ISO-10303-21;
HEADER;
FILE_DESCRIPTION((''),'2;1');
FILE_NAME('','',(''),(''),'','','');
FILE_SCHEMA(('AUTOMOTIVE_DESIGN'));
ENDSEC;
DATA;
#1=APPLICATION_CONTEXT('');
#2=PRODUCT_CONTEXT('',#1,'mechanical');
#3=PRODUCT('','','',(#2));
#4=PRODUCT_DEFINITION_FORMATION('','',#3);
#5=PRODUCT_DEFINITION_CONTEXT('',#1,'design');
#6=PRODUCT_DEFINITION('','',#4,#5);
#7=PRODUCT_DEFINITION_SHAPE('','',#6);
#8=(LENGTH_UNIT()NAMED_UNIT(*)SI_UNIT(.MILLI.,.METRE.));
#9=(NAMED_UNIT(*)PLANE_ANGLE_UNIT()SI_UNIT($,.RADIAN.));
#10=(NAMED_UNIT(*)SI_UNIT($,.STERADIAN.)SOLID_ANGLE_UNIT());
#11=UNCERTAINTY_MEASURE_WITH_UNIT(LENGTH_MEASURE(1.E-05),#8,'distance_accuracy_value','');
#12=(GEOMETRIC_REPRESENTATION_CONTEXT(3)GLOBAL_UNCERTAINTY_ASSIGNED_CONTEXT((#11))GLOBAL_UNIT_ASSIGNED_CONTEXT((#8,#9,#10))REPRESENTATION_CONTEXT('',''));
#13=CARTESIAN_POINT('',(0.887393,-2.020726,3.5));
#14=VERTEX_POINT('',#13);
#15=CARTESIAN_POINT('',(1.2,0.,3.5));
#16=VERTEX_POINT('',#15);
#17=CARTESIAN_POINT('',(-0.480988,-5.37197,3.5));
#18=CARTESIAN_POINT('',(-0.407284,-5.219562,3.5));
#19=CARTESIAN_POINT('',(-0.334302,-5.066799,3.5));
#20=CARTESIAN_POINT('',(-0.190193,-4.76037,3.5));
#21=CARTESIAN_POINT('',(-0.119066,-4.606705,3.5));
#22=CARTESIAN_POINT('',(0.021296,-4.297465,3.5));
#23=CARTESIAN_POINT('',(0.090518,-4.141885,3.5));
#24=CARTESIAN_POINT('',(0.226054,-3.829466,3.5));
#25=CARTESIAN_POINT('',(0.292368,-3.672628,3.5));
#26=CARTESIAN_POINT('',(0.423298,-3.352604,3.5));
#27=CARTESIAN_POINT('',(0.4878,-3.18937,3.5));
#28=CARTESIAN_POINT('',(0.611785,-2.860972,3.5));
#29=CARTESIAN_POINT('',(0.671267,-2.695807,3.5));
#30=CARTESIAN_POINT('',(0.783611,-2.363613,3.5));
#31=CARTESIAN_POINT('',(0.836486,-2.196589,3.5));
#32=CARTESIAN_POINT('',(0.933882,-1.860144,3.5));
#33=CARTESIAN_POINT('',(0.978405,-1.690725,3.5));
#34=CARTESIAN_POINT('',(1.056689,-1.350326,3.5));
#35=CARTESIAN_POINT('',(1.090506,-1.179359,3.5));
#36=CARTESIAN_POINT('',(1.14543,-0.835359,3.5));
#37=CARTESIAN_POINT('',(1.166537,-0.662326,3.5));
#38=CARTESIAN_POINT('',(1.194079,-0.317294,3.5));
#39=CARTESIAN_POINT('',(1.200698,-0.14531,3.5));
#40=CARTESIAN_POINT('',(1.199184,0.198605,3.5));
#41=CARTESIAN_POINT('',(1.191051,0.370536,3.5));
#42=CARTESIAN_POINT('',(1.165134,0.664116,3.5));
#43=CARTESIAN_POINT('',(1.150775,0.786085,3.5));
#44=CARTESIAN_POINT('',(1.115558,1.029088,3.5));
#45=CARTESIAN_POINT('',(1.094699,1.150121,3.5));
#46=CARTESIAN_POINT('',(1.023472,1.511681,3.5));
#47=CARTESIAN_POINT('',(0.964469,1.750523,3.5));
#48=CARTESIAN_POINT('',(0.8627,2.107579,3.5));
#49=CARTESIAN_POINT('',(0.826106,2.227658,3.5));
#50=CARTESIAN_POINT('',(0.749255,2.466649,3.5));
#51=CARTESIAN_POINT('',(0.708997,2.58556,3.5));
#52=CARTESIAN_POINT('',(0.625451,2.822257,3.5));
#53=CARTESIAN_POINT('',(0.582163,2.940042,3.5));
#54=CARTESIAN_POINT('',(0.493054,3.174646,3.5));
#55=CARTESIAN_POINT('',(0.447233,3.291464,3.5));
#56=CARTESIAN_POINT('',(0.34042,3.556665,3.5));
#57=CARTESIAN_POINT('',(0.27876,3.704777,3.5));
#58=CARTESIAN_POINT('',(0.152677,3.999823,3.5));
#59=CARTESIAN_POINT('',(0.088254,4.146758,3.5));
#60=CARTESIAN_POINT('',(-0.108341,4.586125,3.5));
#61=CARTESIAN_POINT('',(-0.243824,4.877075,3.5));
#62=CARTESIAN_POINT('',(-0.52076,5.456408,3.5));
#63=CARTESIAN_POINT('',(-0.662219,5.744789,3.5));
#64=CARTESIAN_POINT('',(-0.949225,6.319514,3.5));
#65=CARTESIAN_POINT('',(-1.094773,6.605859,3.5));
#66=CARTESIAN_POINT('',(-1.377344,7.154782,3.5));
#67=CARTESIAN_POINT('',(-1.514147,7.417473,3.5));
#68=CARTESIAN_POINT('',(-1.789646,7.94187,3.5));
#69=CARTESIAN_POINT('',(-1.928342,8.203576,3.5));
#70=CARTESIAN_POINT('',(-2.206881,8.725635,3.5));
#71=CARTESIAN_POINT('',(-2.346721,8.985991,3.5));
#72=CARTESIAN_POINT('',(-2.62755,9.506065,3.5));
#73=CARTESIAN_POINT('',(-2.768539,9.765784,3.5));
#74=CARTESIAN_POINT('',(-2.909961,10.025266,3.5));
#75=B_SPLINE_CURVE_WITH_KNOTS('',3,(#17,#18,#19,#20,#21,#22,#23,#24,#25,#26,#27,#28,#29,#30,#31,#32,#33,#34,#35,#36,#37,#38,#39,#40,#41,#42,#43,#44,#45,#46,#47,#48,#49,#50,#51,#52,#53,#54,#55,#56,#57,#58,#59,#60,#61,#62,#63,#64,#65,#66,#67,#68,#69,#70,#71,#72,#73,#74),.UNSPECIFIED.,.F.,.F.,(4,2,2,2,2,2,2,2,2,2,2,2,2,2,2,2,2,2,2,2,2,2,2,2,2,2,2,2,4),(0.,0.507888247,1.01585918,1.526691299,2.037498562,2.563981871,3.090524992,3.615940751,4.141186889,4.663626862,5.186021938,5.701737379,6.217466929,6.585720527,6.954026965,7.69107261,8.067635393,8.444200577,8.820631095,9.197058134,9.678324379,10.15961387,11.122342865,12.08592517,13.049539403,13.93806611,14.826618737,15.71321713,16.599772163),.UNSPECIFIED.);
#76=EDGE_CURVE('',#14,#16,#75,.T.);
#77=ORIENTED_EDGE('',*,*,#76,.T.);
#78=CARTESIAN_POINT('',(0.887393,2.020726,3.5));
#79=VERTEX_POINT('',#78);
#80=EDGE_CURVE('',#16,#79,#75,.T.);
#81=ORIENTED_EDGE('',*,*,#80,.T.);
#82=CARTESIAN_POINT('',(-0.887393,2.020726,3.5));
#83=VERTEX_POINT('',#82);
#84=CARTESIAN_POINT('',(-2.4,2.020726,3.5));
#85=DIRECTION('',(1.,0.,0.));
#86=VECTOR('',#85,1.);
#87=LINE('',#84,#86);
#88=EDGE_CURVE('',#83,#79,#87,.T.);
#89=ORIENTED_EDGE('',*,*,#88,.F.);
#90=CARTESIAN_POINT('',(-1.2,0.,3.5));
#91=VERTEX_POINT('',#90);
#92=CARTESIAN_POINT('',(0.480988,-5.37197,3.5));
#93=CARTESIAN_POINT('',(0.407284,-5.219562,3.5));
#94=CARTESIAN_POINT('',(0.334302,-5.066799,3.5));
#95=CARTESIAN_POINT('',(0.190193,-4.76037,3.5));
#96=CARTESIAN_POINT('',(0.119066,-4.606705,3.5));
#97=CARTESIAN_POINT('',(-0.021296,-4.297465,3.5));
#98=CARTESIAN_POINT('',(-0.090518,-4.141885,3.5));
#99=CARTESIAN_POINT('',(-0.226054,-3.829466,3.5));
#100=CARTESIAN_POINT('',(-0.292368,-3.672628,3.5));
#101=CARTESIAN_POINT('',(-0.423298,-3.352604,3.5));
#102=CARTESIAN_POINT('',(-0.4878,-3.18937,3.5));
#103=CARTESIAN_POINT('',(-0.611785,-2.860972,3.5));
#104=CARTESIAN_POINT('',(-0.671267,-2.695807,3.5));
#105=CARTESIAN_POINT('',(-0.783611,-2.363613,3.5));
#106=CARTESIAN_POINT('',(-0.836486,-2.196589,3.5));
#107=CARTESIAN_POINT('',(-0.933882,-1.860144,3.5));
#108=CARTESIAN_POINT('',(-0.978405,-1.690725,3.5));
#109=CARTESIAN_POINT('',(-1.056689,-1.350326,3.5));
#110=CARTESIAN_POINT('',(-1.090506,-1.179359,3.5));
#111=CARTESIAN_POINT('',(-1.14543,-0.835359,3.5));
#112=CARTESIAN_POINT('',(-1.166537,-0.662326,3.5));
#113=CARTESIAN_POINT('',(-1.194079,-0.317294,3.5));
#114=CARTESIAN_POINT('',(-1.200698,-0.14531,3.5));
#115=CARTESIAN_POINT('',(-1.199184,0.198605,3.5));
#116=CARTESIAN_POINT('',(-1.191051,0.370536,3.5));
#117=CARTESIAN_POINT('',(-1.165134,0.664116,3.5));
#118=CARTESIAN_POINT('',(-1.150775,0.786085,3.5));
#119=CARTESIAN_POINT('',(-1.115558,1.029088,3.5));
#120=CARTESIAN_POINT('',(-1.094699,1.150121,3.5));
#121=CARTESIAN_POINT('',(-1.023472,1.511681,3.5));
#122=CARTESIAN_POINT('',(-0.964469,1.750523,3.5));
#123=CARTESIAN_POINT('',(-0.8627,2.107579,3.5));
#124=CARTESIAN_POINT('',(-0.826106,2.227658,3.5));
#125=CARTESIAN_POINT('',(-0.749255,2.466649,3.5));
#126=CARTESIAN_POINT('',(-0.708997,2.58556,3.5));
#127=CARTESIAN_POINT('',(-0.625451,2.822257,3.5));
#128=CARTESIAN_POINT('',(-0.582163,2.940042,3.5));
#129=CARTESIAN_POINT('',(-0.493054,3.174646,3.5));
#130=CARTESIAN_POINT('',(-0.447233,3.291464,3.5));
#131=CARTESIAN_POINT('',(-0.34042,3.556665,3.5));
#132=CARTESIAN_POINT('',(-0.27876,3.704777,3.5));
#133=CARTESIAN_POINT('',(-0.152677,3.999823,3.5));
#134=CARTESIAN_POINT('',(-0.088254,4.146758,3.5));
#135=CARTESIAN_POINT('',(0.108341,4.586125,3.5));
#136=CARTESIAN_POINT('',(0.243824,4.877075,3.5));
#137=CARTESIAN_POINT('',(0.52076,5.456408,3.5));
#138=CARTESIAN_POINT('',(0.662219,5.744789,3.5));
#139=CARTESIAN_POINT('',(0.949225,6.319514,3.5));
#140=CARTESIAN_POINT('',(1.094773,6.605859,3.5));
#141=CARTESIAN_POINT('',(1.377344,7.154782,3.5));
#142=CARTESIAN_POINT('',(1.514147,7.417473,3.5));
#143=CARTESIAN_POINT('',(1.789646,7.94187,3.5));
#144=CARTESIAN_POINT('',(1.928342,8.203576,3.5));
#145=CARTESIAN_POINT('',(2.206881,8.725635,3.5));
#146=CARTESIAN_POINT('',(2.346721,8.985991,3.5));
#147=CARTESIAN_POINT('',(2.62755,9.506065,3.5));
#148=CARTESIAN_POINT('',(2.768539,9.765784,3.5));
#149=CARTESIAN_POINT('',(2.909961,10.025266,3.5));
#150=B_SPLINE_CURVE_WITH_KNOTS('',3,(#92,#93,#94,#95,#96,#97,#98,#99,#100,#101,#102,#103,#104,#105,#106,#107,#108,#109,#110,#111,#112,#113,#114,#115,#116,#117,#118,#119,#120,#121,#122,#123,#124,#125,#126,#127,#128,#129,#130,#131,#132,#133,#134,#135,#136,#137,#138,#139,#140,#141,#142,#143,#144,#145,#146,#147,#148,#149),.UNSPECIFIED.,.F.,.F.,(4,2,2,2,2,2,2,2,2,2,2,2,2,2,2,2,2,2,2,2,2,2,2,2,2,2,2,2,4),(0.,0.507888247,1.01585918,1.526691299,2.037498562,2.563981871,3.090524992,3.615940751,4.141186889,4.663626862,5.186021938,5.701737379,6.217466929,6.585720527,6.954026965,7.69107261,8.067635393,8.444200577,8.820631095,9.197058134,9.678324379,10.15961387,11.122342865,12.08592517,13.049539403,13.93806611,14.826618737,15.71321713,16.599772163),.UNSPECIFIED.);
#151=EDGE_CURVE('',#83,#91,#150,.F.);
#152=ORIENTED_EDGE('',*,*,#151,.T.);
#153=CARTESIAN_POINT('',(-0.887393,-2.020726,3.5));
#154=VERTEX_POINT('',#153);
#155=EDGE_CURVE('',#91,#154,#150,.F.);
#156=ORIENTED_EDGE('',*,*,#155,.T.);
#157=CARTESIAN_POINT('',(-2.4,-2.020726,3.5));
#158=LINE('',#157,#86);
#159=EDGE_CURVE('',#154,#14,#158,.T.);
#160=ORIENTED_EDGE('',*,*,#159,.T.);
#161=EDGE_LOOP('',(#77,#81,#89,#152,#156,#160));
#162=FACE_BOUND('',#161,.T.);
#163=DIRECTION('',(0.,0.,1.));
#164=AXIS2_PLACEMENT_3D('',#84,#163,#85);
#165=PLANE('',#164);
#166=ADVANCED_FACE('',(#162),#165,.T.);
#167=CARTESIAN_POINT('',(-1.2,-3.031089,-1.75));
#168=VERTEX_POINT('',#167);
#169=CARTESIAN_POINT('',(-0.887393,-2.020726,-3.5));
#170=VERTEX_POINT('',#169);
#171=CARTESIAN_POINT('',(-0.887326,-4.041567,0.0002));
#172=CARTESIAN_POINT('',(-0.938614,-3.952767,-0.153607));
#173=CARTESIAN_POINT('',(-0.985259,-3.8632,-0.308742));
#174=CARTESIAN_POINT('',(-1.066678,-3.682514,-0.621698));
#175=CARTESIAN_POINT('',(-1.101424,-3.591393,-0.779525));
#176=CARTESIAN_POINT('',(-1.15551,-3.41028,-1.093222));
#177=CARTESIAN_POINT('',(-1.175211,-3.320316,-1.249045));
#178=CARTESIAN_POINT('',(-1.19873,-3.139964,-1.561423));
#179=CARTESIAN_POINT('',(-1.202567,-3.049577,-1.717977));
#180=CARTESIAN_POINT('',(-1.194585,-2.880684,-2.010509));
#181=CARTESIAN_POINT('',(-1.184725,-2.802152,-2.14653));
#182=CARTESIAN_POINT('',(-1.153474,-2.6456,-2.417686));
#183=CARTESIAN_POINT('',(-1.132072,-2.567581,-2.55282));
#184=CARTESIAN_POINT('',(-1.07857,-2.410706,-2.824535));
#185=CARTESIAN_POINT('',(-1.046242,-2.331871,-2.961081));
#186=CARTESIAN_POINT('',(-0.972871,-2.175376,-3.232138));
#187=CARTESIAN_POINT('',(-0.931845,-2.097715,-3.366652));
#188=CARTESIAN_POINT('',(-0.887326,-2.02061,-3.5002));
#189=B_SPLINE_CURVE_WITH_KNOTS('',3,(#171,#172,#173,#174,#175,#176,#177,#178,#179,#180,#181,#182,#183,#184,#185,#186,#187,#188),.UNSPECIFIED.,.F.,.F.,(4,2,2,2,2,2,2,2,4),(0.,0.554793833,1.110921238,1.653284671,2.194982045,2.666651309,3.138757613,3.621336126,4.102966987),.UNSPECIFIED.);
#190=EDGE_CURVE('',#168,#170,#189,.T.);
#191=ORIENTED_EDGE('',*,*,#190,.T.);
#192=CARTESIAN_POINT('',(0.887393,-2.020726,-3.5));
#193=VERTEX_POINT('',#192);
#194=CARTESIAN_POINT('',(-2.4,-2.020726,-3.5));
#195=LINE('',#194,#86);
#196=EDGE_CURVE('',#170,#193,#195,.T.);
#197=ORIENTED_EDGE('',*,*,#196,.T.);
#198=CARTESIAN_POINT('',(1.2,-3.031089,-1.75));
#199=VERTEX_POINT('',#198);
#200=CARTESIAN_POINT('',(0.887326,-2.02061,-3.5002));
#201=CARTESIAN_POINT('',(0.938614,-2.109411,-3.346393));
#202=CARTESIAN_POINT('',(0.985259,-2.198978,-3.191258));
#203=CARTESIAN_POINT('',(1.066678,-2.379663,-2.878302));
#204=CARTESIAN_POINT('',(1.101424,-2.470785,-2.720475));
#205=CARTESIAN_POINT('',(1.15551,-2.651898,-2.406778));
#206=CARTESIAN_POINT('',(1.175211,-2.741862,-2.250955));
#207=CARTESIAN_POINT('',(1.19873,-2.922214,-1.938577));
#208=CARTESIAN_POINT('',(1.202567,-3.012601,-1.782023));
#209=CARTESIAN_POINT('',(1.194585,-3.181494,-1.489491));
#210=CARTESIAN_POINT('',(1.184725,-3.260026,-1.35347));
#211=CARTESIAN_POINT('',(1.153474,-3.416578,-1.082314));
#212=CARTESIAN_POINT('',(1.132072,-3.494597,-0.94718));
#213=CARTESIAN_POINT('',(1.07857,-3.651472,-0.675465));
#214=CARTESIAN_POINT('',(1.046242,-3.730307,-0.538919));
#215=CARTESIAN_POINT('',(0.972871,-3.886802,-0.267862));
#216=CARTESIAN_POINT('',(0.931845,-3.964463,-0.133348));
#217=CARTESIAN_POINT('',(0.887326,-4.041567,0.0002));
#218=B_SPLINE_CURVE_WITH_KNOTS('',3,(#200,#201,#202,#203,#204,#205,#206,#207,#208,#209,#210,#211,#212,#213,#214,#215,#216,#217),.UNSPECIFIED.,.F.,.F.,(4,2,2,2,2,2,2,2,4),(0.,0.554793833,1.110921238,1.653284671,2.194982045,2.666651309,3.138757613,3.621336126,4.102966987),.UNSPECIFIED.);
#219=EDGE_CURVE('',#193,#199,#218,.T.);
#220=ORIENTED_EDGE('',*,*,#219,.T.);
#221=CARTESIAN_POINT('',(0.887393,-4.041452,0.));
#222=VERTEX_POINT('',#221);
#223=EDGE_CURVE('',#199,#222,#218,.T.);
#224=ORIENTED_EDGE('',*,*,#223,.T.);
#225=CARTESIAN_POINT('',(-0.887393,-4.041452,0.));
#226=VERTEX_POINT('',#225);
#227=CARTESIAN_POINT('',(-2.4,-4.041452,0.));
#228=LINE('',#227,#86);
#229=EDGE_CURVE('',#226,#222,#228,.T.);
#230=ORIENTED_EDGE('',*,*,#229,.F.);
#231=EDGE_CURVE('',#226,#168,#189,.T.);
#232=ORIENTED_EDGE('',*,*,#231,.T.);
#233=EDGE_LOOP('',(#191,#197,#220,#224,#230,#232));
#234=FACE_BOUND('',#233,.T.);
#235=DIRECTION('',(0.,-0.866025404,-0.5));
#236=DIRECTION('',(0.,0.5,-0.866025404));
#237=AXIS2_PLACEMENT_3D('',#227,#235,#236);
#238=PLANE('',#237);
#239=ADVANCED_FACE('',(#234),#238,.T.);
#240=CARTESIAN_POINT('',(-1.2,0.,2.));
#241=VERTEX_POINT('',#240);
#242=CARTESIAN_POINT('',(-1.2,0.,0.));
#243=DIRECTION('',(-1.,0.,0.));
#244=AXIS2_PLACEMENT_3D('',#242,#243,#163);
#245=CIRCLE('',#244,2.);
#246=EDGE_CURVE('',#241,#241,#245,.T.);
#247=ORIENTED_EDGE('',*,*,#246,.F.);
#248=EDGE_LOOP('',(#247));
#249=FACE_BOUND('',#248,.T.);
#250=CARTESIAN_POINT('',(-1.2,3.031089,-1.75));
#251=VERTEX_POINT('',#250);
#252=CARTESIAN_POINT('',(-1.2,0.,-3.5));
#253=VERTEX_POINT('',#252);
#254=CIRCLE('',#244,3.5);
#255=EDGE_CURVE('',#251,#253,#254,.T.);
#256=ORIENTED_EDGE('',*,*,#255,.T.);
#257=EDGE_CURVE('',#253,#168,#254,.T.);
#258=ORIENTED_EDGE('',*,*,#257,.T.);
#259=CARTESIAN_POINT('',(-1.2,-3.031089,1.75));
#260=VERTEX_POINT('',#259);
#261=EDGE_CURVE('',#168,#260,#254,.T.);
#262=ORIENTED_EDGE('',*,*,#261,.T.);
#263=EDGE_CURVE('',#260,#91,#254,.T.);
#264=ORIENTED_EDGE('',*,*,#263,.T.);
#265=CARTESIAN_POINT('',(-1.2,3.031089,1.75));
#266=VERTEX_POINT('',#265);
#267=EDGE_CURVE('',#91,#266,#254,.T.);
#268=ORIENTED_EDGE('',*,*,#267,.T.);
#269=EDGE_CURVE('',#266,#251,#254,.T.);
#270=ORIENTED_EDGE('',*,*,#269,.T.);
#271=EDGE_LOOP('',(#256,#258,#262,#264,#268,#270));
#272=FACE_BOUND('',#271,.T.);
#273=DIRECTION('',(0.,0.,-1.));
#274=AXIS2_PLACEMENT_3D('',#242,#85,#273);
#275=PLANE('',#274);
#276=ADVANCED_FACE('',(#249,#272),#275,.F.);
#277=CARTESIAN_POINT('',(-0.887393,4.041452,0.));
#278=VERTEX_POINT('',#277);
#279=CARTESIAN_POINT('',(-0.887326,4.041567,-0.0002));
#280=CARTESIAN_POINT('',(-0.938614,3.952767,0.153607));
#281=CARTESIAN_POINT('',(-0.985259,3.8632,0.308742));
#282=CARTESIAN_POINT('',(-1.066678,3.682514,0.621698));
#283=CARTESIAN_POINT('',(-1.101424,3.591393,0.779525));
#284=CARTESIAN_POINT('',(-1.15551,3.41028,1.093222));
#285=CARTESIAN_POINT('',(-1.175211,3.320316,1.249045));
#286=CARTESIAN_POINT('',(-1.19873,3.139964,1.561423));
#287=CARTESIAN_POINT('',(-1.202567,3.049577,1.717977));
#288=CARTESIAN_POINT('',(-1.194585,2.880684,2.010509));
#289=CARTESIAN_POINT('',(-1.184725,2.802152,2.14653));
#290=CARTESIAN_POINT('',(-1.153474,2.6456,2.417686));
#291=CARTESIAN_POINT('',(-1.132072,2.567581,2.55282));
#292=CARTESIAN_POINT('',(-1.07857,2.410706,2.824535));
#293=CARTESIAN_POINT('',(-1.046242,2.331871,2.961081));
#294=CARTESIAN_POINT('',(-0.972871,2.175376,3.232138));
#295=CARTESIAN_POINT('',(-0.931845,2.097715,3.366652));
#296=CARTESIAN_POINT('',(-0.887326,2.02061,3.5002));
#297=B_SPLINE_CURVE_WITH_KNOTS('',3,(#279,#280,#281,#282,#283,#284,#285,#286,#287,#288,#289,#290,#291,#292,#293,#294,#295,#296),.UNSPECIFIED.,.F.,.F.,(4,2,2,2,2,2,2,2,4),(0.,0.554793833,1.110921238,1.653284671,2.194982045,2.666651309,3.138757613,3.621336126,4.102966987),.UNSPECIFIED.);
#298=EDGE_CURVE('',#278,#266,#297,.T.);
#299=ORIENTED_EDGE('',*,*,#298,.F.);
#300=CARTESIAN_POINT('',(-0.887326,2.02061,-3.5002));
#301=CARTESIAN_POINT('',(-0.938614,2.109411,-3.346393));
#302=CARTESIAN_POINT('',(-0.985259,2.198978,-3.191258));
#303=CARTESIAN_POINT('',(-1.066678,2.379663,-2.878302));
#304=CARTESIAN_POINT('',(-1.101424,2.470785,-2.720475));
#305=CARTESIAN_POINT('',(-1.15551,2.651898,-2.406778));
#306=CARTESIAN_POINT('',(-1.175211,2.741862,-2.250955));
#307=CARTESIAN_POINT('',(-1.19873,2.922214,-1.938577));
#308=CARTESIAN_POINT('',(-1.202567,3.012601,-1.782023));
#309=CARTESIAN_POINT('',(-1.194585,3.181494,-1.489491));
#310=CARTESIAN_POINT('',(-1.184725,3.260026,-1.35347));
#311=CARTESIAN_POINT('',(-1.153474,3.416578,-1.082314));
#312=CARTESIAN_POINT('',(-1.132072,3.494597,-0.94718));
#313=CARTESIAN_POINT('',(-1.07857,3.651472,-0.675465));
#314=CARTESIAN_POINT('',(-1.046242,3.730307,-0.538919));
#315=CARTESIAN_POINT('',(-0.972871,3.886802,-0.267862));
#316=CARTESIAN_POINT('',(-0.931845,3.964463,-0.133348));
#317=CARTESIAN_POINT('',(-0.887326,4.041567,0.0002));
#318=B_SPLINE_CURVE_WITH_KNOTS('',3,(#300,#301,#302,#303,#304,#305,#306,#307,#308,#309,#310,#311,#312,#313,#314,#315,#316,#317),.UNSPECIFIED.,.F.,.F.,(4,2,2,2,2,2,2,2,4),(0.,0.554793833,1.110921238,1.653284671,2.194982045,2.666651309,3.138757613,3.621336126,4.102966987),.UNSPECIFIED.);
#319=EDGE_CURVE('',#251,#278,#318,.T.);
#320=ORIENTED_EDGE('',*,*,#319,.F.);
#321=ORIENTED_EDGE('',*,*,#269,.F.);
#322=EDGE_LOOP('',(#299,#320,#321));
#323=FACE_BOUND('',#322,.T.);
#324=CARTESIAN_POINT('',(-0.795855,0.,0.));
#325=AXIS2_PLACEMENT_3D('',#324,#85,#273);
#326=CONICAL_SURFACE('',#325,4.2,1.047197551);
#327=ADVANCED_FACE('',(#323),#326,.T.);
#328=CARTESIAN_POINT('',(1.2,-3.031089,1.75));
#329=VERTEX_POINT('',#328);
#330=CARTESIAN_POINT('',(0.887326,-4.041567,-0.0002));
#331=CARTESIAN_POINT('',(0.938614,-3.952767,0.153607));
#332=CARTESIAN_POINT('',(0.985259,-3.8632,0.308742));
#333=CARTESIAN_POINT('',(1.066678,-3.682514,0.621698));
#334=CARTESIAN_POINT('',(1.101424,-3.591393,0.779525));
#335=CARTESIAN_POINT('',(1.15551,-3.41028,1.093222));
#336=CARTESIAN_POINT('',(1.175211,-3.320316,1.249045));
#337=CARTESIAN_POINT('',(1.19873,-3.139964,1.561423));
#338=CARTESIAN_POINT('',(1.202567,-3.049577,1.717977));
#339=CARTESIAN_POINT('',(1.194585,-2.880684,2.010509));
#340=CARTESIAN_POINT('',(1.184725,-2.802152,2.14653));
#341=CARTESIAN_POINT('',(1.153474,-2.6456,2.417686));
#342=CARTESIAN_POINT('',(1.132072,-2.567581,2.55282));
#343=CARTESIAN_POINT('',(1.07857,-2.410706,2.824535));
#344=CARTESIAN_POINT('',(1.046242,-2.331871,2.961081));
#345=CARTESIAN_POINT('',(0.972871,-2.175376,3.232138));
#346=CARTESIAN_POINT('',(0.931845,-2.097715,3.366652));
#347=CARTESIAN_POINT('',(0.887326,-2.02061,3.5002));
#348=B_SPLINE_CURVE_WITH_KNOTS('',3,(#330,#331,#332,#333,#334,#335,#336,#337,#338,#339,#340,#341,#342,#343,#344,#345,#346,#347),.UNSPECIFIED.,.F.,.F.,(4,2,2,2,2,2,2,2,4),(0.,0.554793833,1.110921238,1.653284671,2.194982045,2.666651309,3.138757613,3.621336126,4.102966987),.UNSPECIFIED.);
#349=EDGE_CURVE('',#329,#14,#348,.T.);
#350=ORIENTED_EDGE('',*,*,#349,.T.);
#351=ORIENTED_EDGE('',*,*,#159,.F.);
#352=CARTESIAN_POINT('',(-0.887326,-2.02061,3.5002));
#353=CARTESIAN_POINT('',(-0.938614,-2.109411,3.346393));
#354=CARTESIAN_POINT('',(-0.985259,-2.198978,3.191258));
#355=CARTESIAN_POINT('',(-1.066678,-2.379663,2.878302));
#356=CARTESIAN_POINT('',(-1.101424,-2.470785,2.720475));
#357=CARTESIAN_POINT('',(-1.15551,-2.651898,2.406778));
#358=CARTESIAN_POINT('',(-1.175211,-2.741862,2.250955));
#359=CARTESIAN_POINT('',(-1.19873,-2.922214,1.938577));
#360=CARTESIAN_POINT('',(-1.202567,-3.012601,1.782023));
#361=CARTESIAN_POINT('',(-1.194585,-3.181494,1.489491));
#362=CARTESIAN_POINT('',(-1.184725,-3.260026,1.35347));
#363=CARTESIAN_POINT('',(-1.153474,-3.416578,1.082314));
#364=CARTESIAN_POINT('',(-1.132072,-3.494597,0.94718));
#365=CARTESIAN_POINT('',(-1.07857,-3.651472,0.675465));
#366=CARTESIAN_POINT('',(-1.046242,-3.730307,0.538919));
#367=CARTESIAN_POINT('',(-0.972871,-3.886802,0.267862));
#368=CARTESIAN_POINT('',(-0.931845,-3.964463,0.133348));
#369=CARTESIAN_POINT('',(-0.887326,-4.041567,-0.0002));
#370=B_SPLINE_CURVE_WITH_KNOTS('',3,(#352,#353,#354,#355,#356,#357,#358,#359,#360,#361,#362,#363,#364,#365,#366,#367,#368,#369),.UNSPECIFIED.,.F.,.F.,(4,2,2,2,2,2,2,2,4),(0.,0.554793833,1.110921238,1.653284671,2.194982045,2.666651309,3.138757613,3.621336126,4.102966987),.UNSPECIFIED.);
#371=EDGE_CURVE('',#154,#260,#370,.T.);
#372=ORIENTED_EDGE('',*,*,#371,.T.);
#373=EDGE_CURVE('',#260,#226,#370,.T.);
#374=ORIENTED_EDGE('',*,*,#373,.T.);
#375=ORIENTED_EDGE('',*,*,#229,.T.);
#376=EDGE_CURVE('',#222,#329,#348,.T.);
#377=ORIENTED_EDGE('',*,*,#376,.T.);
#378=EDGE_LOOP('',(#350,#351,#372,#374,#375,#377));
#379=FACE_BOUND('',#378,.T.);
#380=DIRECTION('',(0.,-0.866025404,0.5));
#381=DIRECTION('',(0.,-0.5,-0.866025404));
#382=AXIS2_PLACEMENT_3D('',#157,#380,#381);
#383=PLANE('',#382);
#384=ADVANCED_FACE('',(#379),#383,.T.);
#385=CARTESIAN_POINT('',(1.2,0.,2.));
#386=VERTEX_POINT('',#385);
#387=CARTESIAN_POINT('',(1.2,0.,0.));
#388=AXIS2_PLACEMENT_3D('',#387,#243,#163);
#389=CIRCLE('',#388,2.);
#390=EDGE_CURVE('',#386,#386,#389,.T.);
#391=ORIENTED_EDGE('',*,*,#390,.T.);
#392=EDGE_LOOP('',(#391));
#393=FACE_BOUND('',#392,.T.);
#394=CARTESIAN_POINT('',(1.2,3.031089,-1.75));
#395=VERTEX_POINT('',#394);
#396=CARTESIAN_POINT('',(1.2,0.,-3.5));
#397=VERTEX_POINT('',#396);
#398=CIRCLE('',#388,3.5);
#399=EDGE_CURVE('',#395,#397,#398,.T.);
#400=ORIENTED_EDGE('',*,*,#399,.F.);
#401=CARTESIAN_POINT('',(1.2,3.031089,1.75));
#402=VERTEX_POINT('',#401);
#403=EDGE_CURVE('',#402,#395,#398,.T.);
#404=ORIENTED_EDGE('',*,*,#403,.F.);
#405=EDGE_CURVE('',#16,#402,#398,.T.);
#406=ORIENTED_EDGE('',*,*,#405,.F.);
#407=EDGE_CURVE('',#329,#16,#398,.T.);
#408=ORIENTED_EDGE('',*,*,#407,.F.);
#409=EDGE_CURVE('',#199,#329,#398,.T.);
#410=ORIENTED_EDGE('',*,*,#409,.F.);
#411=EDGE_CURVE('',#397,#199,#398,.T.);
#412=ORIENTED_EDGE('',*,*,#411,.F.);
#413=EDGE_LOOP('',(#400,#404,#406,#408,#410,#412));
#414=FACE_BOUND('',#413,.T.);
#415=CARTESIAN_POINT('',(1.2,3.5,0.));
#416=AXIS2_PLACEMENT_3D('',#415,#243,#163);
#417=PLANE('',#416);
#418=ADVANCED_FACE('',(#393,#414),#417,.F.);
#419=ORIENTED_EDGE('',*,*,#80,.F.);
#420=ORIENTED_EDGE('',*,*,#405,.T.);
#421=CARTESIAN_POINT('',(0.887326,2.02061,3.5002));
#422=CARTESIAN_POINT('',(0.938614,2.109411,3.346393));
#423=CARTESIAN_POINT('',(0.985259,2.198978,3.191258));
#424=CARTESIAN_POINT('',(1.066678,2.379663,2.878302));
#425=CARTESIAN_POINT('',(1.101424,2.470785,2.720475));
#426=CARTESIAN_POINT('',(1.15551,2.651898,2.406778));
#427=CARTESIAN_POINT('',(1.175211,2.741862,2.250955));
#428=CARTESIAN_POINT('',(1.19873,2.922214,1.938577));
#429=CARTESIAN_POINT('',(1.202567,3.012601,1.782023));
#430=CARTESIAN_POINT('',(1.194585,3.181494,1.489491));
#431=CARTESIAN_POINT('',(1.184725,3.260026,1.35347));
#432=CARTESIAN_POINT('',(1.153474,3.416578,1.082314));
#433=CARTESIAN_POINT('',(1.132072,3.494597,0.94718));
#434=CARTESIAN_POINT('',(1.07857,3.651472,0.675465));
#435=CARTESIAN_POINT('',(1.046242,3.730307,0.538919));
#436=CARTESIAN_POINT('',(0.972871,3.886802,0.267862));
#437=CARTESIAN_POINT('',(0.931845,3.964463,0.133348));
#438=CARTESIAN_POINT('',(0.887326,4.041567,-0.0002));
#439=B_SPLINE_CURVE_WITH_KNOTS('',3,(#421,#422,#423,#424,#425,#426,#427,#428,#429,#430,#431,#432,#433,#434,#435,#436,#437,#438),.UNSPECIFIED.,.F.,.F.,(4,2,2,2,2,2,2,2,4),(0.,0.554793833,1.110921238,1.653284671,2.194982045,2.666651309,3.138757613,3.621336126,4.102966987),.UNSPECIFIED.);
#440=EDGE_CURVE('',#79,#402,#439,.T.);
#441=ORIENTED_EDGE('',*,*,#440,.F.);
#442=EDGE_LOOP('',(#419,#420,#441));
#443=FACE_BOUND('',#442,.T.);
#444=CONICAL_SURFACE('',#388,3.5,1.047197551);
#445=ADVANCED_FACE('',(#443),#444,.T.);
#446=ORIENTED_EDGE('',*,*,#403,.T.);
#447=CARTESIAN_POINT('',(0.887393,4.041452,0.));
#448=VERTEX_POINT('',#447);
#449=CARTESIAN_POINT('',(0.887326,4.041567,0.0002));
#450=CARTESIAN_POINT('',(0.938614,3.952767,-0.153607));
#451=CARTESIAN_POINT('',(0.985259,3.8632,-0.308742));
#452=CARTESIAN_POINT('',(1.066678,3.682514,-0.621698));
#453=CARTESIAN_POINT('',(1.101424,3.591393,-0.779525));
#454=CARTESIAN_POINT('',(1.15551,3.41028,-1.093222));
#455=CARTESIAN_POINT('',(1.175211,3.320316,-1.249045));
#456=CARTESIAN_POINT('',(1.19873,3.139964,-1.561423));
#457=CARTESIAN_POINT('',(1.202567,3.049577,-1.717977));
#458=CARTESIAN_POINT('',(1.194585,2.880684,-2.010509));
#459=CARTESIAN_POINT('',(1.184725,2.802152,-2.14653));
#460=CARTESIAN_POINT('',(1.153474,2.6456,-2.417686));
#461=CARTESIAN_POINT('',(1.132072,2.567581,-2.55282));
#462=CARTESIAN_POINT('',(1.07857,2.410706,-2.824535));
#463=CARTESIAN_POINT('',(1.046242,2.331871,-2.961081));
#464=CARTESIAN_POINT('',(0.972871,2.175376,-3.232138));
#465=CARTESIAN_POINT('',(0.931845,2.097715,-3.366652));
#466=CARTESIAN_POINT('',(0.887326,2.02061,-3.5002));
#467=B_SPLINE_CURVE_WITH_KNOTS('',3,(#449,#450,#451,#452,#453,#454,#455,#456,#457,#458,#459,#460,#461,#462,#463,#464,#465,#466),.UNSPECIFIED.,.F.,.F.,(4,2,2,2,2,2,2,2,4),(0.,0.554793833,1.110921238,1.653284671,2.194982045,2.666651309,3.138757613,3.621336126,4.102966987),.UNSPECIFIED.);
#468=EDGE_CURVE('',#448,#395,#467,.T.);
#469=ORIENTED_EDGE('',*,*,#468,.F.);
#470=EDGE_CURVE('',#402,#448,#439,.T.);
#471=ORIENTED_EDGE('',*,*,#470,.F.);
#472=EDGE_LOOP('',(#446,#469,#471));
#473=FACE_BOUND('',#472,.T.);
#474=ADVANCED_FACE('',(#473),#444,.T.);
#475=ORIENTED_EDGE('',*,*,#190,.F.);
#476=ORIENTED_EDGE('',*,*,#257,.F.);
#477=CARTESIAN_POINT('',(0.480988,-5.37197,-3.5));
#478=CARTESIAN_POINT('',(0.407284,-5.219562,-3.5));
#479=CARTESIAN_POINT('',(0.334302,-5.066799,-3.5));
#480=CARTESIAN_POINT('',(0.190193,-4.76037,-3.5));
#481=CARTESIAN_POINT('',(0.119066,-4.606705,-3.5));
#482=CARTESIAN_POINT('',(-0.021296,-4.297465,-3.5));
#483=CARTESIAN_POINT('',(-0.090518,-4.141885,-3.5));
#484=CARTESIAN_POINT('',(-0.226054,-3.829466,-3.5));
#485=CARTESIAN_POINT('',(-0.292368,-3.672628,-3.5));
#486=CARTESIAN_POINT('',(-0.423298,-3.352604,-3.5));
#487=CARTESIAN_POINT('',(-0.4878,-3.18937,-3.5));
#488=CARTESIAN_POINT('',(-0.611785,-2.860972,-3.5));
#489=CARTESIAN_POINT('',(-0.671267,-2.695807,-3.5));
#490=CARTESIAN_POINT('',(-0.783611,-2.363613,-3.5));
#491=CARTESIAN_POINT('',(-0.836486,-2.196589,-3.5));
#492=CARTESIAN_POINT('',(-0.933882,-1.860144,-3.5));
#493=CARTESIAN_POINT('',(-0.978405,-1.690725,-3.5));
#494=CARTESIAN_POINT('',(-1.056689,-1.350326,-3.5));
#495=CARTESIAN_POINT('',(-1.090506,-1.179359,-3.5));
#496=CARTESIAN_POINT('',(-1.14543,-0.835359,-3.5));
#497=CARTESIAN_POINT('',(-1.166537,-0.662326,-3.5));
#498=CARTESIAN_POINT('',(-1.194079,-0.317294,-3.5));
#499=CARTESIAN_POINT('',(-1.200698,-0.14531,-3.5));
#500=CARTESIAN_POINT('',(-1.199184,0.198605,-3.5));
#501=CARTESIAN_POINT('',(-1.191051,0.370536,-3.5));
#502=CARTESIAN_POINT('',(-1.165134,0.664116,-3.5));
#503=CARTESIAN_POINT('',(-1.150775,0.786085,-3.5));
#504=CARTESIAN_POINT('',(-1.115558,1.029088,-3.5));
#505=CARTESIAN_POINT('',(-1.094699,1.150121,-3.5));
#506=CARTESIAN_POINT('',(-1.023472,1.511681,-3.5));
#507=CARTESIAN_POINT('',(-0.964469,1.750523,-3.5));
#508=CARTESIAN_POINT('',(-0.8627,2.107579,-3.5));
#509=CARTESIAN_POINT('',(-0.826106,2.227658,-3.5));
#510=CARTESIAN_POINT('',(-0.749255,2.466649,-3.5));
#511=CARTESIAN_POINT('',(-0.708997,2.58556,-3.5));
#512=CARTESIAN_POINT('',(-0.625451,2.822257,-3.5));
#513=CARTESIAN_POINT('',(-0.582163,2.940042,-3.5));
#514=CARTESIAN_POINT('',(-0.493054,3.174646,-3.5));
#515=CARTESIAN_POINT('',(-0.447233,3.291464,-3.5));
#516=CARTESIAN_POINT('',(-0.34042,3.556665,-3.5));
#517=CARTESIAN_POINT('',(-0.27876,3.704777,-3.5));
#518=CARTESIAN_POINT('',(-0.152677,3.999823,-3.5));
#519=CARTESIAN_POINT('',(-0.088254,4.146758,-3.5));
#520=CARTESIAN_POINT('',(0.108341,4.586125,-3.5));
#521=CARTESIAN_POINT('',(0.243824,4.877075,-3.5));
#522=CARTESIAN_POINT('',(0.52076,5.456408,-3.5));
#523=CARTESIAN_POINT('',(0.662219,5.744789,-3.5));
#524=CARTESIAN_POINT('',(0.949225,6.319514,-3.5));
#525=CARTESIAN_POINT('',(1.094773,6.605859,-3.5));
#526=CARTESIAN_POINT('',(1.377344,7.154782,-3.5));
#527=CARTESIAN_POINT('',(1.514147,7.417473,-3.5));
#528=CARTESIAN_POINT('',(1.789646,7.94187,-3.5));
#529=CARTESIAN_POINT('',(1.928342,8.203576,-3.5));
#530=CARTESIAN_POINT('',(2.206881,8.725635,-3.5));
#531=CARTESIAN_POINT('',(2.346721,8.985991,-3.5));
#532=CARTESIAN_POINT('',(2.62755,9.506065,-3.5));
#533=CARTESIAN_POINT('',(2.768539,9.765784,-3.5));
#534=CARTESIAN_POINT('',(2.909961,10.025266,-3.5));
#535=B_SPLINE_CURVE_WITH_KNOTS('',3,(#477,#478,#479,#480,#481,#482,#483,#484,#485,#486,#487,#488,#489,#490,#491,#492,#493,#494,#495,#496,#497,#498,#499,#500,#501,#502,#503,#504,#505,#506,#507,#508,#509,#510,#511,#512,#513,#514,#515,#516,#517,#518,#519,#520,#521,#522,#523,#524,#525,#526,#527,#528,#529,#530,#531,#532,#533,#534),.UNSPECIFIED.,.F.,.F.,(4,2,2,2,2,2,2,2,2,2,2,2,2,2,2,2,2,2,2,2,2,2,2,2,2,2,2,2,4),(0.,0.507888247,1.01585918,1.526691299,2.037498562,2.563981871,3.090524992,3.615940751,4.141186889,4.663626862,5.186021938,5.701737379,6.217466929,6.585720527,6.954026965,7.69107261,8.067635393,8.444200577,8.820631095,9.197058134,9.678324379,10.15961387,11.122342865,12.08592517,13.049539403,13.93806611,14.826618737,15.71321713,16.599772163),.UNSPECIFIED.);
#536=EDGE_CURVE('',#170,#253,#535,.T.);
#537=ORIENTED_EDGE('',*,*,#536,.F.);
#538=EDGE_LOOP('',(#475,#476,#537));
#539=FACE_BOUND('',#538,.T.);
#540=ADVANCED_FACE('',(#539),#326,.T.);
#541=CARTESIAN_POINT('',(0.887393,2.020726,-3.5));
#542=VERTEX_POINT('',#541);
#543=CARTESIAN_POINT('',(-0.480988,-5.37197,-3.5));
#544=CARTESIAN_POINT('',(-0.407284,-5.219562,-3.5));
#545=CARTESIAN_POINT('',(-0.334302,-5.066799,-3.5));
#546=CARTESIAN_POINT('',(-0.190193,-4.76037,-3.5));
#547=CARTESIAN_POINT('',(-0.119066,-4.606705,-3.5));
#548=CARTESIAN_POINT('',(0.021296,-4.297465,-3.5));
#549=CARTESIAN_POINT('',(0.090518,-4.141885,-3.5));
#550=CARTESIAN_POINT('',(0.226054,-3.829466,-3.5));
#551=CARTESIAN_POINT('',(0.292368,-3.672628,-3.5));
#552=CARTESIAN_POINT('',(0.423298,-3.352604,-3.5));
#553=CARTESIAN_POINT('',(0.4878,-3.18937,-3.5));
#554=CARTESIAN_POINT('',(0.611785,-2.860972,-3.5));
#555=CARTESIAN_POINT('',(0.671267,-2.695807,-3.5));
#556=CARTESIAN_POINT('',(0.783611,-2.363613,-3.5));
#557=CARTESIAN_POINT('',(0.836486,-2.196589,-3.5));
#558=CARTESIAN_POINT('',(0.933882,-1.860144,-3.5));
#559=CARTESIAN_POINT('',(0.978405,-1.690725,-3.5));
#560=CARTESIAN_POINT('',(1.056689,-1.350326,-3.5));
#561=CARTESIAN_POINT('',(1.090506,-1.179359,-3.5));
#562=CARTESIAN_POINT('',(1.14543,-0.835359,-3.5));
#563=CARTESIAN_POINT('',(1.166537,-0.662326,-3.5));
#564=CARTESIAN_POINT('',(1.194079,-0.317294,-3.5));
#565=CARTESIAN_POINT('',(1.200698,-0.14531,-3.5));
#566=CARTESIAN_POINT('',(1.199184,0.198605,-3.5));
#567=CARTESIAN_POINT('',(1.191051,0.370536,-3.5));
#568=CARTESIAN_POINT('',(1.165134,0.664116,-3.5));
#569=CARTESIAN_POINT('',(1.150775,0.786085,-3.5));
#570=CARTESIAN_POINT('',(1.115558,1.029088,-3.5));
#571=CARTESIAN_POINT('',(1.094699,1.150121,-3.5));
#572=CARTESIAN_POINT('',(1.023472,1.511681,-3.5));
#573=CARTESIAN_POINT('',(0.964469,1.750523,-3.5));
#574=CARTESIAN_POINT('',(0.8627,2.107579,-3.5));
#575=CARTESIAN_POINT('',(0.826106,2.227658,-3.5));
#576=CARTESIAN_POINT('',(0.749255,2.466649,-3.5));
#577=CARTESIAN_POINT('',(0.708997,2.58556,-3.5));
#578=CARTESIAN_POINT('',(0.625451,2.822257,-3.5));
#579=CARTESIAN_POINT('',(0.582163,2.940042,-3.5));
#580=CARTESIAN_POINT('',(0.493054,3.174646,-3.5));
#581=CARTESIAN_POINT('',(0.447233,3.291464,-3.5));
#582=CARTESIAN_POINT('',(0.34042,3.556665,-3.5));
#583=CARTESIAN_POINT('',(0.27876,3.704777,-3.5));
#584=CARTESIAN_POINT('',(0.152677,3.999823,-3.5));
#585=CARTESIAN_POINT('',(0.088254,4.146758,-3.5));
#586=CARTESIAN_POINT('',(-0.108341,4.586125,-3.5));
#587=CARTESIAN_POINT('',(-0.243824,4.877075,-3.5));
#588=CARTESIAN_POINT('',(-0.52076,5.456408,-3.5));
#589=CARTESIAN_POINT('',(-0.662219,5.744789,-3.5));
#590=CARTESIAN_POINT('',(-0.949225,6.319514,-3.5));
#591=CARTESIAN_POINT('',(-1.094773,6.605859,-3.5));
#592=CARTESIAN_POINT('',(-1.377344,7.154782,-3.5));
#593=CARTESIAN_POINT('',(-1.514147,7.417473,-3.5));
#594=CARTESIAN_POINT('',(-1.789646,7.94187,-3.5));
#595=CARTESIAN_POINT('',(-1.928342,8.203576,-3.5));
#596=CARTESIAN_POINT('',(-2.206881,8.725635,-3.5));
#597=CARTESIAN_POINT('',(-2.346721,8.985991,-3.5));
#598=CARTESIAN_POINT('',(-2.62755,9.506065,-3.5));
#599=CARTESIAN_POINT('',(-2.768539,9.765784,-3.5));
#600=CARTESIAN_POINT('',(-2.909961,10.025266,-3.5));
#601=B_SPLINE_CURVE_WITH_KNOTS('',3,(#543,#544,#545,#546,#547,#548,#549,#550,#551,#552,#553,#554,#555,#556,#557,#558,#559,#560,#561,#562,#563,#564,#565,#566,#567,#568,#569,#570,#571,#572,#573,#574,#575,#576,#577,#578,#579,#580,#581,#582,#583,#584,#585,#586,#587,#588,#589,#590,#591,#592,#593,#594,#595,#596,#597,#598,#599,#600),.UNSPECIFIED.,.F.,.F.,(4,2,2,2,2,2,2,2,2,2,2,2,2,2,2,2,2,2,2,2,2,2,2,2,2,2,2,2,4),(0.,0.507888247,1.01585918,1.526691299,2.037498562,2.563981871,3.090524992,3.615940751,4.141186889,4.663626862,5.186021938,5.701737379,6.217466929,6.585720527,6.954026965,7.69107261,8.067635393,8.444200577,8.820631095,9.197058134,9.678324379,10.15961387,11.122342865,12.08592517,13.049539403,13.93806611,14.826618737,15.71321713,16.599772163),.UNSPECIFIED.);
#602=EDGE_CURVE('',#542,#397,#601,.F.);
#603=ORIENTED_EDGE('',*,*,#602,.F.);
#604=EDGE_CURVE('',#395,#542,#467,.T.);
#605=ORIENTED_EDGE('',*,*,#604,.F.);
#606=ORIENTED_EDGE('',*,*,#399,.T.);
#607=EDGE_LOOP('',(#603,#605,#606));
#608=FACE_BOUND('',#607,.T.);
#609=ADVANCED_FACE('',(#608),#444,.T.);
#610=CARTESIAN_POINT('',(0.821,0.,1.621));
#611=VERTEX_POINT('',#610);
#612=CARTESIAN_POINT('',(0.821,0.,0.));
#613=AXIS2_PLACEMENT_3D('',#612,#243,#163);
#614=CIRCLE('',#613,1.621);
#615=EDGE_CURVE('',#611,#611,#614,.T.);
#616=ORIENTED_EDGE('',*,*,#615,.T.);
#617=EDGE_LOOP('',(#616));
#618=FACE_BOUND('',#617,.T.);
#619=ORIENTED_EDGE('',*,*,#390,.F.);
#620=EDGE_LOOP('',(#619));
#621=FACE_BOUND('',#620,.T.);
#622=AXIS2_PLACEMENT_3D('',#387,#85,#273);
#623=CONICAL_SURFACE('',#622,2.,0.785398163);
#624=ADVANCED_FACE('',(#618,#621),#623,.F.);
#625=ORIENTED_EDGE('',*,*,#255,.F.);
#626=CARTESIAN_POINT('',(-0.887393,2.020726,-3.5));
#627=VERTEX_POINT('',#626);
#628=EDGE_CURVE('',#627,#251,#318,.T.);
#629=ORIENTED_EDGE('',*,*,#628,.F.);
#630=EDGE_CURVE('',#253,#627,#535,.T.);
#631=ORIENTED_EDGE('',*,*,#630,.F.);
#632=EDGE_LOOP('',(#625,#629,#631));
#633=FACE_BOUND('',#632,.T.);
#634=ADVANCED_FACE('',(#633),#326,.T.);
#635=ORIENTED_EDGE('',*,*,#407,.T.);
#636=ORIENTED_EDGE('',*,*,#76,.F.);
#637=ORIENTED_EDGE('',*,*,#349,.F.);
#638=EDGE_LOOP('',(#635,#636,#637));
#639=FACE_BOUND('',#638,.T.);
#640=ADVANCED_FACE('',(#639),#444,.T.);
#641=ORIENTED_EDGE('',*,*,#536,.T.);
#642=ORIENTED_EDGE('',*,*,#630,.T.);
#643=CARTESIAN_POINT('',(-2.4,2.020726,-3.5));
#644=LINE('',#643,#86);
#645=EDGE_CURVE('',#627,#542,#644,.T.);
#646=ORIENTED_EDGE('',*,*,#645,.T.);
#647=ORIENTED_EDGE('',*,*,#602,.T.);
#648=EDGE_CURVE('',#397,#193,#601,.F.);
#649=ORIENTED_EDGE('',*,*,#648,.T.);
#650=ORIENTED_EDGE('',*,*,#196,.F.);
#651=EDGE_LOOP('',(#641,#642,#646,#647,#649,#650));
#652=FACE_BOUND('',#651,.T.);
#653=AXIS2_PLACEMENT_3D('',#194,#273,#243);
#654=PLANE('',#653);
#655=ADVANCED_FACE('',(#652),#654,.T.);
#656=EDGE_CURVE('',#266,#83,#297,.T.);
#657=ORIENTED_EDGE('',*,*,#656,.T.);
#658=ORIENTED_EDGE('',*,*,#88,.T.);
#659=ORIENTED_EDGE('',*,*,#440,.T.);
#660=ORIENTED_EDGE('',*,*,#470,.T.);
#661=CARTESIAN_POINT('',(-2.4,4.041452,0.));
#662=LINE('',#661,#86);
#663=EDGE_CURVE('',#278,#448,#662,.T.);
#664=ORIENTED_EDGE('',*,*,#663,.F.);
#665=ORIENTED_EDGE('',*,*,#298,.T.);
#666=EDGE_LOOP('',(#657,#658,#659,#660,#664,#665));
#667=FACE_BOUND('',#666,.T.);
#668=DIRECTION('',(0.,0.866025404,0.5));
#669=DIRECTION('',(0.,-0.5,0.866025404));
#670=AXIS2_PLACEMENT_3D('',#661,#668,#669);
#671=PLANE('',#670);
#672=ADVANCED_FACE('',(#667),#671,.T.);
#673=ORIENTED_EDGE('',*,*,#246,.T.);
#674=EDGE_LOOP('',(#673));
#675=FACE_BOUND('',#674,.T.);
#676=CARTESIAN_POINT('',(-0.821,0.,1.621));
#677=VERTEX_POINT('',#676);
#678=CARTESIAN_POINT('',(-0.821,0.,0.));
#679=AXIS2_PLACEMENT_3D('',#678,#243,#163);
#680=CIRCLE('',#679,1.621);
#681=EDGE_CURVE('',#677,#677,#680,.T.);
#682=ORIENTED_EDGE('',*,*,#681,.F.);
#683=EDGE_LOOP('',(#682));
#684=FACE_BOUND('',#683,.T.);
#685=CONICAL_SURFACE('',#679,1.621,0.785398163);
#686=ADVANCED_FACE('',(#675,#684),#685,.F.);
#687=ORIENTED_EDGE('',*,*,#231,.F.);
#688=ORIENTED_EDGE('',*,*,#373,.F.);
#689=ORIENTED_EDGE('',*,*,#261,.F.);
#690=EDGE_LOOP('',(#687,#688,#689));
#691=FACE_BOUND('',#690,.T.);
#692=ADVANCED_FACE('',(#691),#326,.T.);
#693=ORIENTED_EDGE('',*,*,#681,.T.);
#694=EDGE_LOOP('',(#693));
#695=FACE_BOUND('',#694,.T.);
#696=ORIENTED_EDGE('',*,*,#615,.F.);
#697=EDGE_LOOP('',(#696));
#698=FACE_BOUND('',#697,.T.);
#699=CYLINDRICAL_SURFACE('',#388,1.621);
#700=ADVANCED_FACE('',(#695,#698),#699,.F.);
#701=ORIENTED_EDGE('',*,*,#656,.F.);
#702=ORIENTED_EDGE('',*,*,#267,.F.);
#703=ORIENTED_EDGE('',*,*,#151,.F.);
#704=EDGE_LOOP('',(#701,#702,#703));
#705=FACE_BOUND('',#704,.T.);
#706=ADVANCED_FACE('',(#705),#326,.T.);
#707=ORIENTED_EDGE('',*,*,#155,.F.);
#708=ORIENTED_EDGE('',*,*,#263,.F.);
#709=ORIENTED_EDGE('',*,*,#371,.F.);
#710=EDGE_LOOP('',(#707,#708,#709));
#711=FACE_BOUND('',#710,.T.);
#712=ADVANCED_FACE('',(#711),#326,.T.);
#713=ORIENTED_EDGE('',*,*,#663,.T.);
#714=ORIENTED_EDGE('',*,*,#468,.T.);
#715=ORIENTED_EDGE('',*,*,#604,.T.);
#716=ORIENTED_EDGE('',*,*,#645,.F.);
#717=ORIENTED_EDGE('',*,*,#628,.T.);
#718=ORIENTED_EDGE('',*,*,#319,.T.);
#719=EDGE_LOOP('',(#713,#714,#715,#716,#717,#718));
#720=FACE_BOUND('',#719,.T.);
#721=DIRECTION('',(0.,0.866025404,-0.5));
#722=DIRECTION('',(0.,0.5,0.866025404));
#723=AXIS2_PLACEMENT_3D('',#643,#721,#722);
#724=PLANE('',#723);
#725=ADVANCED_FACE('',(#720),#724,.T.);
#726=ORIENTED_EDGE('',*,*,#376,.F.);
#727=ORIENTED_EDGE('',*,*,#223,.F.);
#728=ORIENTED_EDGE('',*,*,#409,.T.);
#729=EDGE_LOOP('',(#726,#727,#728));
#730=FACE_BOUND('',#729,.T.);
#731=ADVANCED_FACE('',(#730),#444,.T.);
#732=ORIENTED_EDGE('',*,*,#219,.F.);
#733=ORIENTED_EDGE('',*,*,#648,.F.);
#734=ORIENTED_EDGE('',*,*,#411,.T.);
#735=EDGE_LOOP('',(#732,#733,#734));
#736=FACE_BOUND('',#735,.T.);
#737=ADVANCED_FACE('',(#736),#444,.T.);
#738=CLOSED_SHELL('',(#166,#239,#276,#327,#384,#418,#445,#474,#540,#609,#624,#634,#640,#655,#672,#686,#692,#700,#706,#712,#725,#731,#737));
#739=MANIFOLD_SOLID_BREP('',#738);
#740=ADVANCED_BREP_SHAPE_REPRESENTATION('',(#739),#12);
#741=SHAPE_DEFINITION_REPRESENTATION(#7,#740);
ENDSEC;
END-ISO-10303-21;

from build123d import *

# Parameters (mm, degrees)
CUT_EXTRUDE_1_DEPTH      = 2.4
CUT_EXTRUDE_1_DEPTH_BACK = 2.4
SKETCH_2_W               = 16.2
SKETCH_2_H               = 16.2


with BuildPart() as part:
    # 草图1 → 旋转1 (revolve)
    with BuildSketch(Plane.XY):
        Polygon((-1.2, 0), (-1.2, 3.5), (-0.795854812, 4.2), (0.795854812, 4.2), (1.2, 3.5), (1.2, 0), align=None)
    revolve(axis=Axis((1.2, 0, 0), (-1, 0, 0)))

    # 草图2 → 切除-拉伸1 (cut, two sides: drawn at the far end of the back side and taken through both)
    with BuildSketch(Plane(origin=(0, 0, 0), x_dir=(0, 0, -1), z_dir=(1, 0, 0)).offset(-CUT_EXTRUDE_1_DEPTH_BACK)):
        Rectangle(SKETCH_2_W, SKETCH_2_H)
        Polygon((-3.5, 2.020725942), (-3.5, -2.020725942), (0, -4.041451884), (3.5, -2.020725942), (3.5, 2.020725942), (0, 4.041451884), align=None, mode=Mode.SUBTRACT)
    extrude(amount=CUT_EXTRUDE_1_DEPTH + CUT_EXTRUDE_1_DEPTH_BACK, mode=Mode.SUBTRACT)

    # 草图3 → 切除-旋转1 (revolve, cut)
    with BuildSketch(Plane.XY):
        Polygon((-1.2, 0), (-1.2, 2), (-0.821, 1.621), (0.821, 1.621), (1.2, 2), (1.2, 0), align=None)
    revolve(axis=Axis((1.2, 0, 0), (-1, 0, 0)), mode=Mode.SUBTRACT)


solid = part.part
